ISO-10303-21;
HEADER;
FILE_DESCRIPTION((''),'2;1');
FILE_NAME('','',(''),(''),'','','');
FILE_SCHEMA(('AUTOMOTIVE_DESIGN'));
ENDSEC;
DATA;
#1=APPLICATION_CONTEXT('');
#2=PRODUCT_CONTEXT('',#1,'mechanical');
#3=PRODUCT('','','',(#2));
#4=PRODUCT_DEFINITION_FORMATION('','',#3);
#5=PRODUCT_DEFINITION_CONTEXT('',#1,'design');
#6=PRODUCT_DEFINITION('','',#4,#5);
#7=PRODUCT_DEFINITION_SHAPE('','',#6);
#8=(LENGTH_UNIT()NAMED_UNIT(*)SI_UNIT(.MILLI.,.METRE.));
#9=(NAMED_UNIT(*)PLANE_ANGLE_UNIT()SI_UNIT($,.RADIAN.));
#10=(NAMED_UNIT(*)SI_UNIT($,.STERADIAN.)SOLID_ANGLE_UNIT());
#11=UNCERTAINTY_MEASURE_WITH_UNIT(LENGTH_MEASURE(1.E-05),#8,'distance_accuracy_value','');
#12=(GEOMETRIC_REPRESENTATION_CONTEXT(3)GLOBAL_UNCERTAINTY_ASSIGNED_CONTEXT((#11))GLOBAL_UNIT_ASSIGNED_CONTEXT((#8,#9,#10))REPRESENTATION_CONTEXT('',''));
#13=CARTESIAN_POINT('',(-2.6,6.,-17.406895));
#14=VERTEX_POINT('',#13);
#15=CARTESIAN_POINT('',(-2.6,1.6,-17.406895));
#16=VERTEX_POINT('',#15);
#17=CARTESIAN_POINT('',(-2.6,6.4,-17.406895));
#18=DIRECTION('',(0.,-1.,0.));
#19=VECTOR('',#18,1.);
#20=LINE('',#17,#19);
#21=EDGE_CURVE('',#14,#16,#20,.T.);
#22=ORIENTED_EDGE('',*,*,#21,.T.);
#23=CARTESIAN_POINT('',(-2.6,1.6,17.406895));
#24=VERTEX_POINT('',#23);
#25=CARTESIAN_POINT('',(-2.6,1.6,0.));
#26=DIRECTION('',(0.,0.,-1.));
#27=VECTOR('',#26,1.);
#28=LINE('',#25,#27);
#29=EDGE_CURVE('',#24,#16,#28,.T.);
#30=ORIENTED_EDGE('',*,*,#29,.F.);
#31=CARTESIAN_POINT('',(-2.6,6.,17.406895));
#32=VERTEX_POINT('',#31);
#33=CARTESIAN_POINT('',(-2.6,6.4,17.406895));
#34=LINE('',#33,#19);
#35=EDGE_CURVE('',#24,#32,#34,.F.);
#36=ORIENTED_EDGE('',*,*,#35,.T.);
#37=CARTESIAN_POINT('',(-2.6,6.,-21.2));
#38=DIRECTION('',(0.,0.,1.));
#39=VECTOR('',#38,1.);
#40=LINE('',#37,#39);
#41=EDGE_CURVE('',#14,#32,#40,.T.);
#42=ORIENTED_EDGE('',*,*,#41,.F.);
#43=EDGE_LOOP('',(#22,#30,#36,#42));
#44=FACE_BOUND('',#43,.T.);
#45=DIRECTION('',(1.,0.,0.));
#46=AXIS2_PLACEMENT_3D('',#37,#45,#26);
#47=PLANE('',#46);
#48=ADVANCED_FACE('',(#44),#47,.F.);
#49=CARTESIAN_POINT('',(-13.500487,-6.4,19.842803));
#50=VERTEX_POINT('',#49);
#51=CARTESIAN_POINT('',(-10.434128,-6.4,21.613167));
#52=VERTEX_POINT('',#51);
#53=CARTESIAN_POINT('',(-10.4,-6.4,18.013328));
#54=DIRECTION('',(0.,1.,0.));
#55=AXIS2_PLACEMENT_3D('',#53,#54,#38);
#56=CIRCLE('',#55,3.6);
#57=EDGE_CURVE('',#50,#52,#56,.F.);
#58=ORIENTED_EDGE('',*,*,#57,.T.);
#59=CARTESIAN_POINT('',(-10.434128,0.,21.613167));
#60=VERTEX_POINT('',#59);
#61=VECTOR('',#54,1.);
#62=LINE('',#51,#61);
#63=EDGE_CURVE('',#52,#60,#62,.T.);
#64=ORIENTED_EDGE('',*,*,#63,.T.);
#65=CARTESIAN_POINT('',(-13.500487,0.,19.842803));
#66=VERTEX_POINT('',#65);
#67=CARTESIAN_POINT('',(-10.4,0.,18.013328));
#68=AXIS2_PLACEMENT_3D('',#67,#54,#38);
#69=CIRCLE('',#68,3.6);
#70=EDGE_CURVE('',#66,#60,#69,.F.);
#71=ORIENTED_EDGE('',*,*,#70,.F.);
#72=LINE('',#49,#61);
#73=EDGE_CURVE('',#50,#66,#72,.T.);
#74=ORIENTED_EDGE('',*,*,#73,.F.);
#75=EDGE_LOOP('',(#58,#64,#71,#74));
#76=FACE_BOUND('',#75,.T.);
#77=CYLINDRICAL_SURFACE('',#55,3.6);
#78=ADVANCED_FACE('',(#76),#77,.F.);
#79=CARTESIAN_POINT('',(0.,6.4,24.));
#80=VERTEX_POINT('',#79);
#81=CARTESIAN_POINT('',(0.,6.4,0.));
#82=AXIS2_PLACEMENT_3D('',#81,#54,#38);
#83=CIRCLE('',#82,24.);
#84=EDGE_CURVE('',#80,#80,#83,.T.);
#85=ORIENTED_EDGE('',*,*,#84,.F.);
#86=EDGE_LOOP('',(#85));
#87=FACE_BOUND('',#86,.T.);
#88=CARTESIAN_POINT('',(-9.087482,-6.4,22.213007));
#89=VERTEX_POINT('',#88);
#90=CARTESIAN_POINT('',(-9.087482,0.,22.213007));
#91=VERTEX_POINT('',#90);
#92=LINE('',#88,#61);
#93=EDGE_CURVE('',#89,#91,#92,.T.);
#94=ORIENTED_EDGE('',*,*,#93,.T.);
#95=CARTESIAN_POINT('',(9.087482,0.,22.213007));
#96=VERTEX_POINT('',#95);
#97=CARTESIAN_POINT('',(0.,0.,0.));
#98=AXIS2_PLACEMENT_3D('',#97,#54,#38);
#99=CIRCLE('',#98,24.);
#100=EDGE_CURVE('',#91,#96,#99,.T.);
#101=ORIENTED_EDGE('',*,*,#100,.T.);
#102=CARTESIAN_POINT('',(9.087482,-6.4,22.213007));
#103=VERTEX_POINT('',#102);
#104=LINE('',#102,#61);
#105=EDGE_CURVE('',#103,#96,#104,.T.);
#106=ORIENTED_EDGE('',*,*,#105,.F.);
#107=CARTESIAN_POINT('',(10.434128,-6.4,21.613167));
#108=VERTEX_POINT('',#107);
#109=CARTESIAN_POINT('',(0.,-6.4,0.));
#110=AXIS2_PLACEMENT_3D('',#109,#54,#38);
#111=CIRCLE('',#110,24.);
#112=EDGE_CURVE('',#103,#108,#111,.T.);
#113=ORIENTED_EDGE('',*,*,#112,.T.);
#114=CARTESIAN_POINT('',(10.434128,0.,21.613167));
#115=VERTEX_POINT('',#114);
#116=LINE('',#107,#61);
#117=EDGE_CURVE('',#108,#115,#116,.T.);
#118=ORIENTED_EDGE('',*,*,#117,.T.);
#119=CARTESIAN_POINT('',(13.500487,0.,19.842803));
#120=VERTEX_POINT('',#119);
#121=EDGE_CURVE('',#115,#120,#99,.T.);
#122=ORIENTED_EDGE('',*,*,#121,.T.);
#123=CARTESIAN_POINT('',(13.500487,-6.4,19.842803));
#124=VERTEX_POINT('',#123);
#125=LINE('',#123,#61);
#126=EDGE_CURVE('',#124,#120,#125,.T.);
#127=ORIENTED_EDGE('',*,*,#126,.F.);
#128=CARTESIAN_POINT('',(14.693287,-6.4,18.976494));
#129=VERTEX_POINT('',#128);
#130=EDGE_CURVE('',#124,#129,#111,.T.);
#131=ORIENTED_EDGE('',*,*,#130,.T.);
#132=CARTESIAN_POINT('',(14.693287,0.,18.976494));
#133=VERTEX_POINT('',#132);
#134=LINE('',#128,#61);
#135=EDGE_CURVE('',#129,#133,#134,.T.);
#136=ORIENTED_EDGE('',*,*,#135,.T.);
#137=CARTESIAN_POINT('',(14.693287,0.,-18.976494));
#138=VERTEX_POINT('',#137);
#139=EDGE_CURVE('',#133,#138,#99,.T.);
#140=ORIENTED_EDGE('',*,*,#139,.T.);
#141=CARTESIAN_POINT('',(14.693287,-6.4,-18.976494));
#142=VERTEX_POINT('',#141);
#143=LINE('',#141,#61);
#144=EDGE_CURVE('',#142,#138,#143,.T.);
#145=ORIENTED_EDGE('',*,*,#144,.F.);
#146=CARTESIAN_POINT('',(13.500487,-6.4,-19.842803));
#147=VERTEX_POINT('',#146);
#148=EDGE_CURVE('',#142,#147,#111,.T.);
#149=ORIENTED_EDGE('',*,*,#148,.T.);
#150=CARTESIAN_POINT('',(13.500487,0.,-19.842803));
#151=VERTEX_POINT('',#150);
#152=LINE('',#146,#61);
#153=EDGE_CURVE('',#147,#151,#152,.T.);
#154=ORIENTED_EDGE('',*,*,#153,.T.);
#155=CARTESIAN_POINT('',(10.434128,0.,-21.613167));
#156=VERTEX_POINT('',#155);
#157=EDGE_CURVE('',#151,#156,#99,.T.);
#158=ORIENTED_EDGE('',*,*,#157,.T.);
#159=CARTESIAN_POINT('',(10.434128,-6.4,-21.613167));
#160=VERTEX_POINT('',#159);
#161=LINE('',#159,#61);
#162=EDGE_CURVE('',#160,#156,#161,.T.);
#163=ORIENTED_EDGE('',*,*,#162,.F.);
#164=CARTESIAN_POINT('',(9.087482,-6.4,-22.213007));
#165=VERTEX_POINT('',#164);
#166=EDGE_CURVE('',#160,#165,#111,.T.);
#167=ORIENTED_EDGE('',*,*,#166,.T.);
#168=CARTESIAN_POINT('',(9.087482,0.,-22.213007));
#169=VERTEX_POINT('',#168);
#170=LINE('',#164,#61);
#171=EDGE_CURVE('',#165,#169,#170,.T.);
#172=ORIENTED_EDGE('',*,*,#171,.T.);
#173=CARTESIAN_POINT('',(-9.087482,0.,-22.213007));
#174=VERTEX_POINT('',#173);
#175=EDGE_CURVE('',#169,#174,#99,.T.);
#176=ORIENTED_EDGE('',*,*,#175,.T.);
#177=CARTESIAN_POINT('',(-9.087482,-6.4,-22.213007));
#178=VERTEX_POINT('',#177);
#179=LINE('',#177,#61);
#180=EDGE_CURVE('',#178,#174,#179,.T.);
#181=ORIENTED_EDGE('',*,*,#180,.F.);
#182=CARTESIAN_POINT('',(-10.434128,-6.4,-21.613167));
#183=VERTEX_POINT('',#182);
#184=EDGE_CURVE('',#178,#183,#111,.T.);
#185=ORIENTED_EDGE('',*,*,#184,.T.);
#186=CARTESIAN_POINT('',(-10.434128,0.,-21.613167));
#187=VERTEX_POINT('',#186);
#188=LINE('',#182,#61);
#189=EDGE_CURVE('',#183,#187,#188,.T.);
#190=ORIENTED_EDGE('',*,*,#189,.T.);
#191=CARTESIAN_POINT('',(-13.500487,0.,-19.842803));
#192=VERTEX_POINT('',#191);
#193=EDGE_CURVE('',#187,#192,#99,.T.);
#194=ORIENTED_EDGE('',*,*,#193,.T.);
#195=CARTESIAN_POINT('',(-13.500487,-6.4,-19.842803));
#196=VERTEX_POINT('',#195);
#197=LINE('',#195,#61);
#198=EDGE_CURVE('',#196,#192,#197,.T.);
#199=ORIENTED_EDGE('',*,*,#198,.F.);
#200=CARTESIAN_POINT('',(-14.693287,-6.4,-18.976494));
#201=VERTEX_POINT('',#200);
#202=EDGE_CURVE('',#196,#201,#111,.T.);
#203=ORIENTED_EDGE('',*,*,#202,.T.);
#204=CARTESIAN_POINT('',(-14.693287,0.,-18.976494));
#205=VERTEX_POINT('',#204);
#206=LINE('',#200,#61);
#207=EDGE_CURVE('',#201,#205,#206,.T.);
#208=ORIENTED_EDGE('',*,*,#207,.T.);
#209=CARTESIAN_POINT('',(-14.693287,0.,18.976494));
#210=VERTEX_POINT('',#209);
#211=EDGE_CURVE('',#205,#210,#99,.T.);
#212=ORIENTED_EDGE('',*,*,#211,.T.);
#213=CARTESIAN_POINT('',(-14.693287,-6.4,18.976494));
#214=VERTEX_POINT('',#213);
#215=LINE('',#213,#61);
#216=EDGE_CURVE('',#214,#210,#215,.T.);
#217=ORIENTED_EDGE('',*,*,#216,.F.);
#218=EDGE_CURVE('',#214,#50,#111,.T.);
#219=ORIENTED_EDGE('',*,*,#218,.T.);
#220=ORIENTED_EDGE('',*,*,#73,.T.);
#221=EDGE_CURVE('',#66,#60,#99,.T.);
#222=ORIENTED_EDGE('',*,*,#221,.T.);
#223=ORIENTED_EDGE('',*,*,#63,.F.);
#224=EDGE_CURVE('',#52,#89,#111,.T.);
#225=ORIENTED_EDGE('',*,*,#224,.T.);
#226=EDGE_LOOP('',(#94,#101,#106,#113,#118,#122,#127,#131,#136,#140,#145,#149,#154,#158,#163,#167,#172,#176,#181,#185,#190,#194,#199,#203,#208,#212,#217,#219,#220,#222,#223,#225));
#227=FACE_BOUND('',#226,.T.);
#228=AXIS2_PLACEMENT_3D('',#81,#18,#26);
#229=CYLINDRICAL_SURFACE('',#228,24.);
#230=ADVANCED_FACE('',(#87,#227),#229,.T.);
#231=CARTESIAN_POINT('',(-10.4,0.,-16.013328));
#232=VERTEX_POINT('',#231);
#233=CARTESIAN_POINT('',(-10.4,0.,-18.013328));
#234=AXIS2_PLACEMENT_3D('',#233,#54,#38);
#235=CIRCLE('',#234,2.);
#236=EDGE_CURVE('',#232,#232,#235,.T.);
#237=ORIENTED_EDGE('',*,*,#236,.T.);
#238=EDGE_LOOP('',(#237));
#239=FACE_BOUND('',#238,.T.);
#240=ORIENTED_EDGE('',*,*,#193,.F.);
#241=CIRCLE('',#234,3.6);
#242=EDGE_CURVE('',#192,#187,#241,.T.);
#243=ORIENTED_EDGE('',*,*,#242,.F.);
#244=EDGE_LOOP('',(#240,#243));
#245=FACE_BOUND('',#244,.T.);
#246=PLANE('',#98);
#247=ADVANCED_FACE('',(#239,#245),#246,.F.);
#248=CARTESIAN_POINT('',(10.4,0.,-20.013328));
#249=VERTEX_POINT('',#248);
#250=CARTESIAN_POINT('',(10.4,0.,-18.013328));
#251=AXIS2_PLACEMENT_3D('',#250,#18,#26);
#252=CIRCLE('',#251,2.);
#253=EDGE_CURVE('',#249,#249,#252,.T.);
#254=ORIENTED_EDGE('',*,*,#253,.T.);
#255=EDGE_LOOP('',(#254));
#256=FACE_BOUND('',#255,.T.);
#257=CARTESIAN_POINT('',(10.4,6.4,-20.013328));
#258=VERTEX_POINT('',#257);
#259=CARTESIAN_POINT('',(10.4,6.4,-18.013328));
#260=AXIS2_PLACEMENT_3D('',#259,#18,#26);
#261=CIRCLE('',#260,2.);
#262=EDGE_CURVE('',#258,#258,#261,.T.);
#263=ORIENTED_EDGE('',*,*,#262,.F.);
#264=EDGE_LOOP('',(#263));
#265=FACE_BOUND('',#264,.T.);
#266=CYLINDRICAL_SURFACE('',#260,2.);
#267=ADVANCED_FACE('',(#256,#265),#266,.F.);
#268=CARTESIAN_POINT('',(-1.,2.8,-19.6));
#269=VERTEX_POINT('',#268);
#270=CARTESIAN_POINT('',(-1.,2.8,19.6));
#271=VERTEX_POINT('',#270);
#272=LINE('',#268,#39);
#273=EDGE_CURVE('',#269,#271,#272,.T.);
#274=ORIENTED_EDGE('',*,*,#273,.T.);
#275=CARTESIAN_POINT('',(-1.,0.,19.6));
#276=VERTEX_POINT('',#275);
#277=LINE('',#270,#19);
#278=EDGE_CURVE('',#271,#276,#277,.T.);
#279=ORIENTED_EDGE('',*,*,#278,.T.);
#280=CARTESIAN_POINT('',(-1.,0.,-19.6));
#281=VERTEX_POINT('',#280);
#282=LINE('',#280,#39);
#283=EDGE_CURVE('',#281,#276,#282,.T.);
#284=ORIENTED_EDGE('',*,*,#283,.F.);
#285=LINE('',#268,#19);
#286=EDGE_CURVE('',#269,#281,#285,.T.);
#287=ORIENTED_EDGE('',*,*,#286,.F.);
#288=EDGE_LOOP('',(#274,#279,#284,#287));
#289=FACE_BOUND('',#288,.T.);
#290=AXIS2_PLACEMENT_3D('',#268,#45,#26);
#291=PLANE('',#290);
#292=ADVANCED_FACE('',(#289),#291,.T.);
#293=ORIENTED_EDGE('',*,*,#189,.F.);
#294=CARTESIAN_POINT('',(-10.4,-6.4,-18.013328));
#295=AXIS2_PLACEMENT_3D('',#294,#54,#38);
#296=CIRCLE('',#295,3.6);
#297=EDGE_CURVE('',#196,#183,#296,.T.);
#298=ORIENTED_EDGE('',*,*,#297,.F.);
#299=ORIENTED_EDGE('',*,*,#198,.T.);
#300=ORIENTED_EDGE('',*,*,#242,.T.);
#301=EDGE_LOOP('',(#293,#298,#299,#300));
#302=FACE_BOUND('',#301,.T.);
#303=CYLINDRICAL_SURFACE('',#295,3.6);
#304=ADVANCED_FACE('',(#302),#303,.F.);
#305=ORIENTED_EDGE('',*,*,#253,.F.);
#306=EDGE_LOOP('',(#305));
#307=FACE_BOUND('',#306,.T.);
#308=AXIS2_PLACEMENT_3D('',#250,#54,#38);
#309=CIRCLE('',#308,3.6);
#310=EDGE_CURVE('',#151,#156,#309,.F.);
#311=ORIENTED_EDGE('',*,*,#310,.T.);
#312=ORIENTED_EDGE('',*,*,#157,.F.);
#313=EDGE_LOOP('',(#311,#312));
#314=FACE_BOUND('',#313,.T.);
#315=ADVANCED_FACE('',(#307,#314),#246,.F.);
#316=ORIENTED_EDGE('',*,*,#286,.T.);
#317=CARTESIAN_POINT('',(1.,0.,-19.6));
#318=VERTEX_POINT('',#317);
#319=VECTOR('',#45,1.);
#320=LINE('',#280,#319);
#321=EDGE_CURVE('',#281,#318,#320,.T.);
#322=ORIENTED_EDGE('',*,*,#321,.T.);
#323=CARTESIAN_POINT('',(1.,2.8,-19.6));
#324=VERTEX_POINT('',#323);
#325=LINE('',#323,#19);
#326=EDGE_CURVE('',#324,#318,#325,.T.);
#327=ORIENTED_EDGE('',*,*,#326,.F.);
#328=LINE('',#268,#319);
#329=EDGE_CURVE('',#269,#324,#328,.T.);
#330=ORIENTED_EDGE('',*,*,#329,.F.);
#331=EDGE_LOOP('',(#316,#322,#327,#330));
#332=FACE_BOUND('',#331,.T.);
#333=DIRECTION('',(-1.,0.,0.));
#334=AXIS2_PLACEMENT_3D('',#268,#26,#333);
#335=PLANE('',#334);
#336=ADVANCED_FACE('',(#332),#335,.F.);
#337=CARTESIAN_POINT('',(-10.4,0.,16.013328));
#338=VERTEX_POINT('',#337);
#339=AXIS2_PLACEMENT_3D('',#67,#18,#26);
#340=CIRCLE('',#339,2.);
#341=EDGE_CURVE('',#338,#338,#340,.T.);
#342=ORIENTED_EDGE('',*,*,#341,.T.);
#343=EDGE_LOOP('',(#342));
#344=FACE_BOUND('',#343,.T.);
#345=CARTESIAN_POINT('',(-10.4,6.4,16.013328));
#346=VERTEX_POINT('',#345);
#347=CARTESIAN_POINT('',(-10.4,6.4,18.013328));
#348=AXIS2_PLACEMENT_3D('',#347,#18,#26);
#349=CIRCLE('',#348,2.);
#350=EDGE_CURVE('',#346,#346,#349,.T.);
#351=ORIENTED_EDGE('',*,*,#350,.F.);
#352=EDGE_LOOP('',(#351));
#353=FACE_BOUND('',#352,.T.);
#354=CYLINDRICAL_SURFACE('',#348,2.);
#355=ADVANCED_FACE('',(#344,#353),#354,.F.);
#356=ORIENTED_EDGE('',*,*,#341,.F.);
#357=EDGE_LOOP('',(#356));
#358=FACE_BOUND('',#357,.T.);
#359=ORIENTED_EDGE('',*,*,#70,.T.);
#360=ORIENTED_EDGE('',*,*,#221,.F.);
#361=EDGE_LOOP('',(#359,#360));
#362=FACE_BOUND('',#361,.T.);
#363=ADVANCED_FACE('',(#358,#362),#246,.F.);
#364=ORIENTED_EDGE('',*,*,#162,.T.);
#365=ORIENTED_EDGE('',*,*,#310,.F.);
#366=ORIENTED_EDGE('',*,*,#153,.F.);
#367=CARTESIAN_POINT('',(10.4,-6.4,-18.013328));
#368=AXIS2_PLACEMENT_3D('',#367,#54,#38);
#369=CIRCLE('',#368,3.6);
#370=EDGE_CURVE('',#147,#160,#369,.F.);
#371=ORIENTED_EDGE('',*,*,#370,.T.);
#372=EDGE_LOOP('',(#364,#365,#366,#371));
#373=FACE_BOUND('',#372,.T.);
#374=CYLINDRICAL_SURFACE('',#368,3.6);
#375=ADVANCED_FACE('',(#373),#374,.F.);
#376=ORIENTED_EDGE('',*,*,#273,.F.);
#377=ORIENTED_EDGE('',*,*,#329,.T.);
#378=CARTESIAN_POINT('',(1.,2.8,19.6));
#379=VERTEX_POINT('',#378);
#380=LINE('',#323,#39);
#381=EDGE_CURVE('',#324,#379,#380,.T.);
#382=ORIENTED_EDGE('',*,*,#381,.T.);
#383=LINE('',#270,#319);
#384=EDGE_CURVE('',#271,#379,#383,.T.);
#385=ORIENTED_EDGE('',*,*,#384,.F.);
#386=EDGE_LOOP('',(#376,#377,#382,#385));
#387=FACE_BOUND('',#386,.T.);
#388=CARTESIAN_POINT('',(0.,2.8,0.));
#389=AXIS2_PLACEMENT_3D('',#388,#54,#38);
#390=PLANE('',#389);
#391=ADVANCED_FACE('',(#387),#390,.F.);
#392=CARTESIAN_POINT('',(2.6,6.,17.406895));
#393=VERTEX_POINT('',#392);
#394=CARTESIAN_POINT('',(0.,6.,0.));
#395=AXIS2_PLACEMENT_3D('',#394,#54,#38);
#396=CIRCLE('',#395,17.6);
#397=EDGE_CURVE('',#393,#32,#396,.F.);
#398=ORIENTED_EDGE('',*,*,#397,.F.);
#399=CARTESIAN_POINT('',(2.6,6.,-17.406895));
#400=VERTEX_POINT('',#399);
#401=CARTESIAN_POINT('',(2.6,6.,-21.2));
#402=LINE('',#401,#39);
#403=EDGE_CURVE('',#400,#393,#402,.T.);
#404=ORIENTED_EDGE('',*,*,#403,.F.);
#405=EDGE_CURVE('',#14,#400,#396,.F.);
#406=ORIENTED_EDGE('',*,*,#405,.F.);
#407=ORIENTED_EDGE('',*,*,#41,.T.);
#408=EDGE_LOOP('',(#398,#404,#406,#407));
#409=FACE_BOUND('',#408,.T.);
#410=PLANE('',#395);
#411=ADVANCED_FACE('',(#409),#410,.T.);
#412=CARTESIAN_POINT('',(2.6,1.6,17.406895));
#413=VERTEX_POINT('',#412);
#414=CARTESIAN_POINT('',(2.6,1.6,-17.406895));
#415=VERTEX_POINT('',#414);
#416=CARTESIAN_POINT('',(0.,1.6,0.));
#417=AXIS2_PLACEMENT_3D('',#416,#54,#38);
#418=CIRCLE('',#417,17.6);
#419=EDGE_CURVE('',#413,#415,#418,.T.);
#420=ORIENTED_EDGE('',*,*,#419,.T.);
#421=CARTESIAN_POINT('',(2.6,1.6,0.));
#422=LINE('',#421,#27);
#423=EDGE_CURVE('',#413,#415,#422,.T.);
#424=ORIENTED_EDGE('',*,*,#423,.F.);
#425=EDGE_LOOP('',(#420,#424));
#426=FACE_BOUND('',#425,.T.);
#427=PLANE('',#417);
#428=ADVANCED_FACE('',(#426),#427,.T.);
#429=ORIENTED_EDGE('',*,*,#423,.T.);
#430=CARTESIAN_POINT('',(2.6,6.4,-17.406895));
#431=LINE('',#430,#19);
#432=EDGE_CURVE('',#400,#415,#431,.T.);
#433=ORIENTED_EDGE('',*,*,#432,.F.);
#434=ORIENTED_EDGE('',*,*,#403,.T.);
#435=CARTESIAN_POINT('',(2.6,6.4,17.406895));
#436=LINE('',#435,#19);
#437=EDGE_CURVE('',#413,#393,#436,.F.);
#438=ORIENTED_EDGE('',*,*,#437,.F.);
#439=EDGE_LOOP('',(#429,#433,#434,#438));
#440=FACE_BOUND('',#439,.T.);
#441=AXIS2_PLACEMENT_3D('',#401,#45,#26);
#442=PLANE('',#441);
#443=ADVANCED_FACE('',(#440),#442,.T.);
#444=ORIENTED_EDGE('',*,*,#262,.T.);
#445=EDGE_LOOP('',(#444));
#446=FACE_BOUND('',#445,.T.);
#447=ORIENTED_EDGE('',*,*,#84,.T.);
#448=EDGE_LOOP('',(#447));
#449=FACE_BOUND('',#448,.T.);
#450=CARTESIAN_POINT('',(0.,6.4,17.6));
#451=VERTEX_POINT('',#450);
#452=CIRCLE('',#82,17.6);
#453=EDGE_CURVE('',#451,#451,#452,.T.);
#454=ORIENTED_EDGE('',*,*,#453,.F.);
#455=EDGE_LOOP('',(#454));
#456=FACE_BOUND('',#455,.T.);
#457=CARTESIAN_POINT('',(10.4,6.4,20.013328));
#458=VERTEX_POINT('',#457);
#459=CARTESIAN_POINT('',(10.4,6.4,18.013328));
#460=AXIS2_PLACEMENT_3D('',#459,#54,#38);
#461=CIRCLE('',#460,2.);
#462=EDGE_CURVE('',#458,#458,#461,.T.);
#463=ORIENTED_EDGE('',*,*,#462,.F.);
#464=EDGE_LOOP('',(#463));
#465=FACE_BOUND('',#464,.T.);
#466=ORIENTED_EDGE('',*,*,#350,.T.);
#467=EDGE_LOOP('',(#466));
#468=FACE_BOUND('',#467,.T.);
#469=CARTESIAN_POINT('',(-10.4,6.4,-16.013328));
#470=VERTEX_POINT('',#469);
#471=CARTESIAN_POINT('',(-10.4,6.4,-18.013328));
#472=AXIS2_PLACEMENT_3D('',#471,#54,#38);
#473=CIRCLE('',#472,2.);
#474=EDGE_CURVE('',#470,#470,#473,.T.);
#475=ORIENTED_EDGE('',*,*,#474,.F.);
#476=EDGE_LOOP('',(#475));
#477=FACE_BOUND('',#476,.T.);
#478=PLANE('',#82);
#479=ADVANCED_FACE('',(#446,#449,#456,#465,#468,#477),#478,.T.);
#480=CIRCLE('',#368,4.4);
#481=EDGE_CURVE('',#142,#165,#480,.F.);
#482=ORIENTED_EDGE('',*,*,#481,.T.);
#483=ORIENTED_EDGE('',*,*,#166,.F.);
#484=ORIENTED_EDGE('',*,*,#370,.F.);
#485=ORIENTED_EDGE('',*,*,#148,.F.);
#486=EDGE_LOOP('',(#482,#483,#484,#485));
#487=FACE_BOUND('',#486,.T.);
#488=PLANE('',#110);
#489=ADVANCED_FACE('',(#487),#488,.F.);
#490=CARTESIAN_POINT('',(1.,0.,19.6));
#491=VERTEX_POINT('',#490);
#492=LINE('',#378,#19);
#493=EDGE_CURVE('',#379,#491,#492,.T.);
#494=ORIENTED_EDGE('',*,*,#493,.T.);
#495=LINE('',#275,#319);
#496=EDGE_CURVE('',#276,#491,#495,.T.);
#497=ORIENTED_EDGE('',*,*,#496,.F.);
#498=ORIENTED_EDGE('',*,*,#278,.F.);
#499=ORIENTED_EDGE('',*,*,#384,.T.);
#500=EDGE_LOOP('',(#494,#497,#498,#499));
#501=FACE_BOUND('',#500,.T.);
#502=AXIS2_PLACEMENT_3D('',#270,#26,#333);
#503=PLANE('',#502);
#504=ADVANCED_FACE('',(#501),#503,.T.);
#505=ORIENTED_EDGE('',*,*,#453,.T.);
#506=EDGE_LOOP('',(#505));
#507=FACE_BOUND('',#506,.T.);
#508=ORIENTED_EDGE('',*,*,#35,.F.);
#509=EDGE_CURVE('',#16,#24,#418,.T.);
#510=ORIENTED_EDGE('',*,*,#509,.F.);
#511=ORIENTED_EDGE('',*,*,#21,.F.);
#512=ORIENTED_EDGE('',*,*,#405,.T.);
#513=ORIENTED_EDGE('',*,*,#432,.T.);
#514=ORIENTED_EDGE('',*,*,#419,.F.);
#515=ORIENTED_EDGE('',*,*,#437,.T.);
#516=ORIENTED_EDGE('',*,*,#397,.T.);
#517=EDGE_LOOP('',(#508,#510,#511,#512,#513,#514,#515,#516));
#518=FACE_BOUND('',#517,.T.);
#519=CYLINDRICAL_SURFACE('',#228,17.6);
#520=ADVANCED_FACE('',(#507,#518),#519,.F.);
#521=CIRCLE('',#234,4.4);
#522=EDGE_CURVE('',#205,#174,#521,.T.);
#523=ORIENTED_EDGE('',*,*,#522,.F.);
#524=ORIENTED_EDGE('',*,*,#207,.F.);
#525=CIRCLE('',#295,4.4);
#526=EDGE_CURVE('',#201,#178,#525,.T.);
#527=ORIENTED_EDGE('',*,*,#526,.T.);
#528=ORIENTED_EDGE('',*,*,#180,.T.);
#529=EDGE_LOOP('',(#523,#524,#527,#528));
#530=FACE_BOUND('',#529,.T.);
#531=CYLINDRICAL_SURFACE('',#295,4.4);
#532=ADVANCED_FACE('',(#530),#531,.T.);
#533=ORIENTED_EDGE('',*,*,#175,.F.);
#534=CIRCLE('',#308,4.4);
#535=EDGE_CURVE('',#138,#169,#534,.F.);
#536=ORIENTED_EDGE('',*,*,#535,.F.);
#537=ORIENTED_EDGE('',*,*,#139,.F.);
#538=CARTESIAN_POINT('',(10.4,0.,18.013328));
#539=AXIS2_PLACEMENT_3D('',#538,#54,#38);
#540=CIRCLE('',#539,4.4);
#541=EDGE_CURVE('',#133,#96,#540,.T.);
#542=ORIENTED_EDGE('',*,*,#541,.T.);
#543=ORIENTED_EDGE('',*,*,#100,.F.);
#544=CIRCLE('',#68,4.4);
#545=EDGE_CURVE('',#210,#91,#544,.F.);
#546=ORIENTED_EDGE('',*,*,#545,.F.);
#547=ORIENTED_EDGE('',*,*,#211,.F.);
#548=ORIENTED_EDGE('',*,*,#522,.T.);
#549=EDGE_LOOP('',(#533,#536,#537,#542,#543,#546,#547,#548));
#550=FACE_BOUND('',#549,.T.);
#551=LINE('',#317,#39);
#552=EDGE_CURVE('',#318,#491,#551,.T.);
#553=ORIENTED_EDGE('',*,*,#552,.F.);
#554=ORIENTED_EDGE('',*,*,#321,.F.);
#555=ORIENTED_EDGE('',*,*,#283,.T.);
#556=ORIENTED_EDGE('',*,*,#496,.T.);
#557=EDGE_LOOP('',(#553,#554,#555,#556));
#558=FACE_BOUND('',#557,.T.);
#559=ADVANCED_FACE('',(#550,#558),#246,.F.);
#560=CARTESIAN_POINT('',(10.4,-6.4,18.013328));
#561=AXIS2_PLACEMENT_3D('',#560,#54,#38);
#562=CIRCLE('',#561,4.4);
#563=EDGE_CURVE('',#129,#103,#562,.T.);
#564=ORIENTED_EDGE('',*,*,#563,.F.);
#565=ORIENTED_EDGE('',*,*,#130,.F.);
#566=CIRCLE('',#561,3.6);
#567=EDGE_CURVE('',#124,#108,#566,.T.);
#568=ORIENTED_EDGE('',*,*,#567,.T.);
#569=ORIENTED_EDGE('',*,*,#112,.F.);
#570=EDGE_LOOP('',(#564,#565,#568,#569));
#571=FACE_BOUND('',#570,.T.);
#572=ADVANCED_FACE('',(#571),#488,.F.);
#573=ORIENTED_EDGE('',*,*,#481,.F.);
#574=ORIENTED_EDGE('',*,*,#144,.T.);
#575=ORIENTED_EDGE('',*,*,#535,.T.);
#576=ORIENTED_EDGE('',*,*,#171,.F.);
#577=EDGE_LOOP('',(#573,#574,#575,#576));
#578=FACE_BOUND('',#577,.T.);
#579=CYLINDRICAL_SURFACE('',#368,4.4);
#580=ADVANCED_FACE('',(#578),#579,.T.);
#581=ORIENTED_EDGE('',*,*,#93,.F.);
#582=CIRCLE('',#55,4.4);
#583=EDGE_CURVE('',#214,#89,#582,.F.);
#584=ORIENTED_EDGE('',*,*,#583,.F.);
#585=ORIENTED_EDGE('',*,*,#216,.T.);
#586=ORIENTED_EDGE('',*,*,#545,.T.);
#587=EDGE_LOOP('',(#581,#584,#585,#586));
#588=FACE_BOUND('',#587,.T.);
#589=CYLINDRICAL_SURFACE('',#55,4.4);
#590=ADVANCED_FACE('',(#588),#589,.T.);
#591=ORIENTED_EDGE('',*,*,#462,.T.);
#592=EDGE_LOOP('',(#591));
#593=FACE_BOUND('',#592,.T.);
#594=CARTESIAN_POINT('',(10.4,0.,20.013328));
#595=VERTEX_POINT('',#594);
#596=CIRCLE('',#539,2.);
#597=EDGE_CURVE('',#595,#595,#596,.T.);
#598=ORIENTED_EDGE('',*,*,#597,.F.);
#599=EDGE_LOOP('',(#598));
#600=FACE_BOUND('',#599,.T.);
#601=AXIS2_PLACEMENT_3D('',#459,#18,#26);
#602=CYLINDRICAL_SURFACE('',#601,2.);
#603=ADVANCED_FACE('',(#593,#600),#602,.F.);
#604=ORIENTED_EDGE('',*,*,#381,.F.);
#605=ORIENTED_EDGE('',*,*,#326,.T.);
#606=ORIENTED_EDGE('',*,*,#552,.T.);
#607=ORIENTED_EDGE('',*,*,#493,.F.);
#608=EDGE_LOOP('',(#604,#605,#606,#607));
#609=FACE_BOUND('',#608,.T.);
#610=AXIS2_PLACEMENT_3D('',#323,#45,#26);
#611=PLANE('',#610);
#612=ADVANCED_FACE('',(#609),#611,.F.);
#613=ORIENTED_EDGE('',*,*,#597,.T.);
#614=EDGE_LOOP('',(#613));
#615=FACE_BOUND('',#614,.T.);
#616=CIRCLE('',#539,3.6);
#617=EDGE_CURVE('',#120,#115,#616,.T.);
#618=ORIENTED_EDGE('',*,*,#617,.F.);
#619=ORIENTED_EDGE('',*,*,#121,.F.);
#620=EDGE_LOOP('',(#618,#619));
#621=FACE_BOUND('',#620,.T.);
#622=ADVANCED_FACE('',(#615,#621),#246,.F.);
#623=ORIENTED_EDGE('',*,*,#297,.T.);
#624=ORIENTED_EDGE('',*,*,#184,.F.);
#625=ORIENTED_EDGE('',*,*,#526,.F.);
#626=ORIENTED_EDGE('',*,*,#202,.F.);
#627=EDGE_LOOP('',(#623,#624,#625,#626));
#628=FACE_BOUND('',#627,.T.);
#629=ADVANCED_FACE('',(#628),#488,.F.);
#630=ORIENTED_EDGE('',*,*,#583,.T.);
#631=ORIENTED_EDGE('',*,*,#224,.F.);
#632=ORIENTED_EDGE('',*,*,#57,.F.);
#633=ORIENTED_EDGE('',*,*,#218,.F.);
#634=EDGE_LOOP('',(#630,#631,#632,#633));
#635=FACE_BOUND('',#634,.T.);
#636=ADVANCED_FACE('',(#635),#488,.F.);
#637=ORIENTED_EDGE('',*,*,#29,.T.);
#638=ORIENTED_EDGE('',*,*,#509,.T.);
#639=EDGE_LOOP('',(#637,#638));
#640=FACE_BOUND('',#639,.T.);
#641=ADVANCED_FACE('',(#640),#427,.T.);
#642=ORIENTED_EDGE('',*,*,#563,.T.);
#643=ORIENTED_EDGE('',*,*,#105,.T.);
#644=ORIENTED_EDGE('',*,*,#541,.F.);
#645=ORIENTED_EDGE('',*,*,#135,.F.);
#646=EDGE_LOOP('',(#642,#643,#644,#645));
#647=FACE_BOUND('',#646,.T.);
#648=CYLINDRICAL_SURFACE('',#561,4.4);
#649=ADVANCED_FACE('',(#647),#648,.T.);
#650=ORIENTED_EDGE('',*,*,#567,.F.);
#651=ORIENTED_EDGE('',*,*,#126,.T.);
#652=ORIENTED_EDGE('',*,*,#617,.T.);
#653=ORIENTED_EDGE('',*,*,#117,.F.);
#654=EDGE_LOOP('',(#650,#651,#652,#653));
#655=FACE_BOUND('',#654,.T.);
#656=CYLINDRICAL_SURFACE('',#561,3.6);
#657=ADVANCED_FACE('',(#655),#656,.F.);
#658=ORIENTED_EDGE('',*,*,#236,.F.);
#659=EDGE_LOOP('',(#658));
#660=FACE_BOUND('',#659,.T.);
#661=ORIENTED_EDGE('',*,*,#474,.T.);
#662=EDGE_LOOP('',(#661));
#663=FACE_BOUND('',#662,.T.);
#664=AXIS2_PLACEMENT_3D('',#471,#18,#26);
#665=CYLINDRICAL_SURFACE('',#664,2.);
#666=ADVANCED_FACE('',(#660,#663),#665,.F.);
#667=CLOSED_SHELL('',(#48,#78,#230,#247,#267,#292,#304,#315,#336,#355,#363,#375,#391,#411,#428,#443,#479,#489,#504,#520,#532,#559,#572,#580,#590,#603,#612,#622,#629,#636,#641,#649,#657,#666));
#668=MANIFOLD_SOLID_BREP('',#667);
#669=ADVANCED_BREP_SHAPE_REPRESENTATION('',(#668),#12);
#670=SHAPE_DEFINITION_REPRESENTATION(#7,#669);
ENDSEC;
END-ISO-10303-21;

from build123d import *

# Parameters (mm, degrees)
SKETCH_1_R          = 17.6
EXTRUDE_1_DEPTH     = 1.6
SKETCH_1_4_W        = 5.2
SKETCH_1_4_H        = 42.4
EXTRUDE_2_DEPTH     = 6
SKETCH_1_7_R        = 24
SKETCH_1_7_R_2      = 17.6
SKETCH_1_7_R_3      = 2
EXTRUDE_3_DEPTH     = 6.4
EXTRUDE_START       = -6.4
EXTRUDE_4_DEPTH     = 6.4
SKETCH_1_5_W        = 2
SKETCH_1_5_H        = 39.2
CUT_EXTRUDE_1_DEPTH = 2.8


with BuildPart() as part:
    # 草圖1 → 填料-伸長1 (new body)
    with BuildSketch(Plane(origin=(0, 0, 0), x_dir=(1, 0, 0), z_dir=(0, 1, 0))):
        Circle(SKETCH_1_R)
    extrude(amount=EXTRUDE_1_DEPTH)

    # 草圖1<4> → 填料-伸長2 (add)
    with BuildSketch(Plane(origin=(0, 0, 0), x_dir=(1, 0, 0), z_dir=(0, 1, 0))):
        Rectangle(SKETCH_1_4_W, SKETCH_1_4_H)
    extrude(amount=EXTRUDE_2_DEPTH)

    # 草圖1<7> → 填料-伸長3 (add)
    with BuildSketch(Plane(origin=(0, 0, 0), x_dir=(1, 0, 0), z_dir=(0, 1, 0))):
        Circle(SKETCH_1_7_R)
        Circle(SKETCH_1_7_R_2, mode=Mode.SUBTRACT)
        with Locations((-10.4, 18.013328399)):
            Circle(SKETCH_1_7_R_3, mode=Mode.SUBTRACT)
        with Locations((10.4, 18.013328399)):
            Circle(SKETCH_1_7_R_3, mode=Mode.SUBTRACT)
        with Locations((10.4, -18.013328399)):
            Circle(SKETCH_1_7_R_3, mode=Mode.SUBTRACT)
        with Locations((-10.4, -18.013328399)):
            Circle(SKETCH_1_7_R_3, mode=Mode.SUBTRACT)
    extrude(amount=EXTRUDE_3_DEPTH)

    # 草圖1<9> → 填料-伸長4 (add)
    with BuildSketch(Plane(origin=(0, 0, 0), x_dir=(1, 0, 0), z_dir=(0, 1, 0)).offset(EXTRUDE_START)):
        with BuildLine():
            ThreePointArc((-13.500487327, 19.842803278), (-14.103540299, 19.418809207), (-14.693286878, 18.976493899))
            ThreePointArc((-14.693286878, 18.976493899), (-8.2, 14.202816622), (-9.087482353, 22.213006651))
            ThreePointArc((-9.087482353, 22.213006651), (-9.765411935, 21.923428786), (-10.434128057, 21.613166628))
            ThreePointArc((-10.434128057, 21.613166628), (-8.6, 14.895636945), (-13.500487327, 19.842803278))
        make_face()
        with BuildLine():
            ThreePointArc((14.693286878, 18.976493899), (14.103540299, 19.418809207), (13.500487327, 19.842803278))
            ThreePointArc((13.500487327, 19.842803278), (8.6, 14.895636945), (10.434128057, 21.613166628))
            ThreePointArc((10.434128057, 21.613166628), (9.765411935, 21.923428786), (9.087482353, 22.213006651))
            ThreePointArc((9.087482353, 22.213006651), (8.2, 14.202816622), (14.693286878, 18.976493899))
        make_face()
        with BuildLine():
            ThreePointArc((-14.693286878, -18.976493899), (-14.103540299, -19.418809207), (-13.500487327, -19.842803278))
            ThreePointArc((-13.500487327, -19.842803278), (-8.6, -14.895636945), (-10.434128057, -21.613166628))
            ThreePointArc((-10.434128057, -21.613166628), (-9.765411935, -21.923428786), (-9.087482353, -22.213006651))
            ThreePointArc((-9.087482353, -22.213006651), (-8.2, -14.202816622), (-14.693286878, -18.976493899))
        make_face()
        with BuildLine():
            ThreePointArc((9.087482353, -22.213006651), (9.765411935, -21.923428786), (10.434128057, -21.613166628))
            ThreePointArc((10.434128057, -21.613166628), (8.6, -14.895636945), (13.500487327, -19.842803278))
            ThreePointArc((13.500487327, -19.842803278), (14.103540299, -19.418809207), (14.693286878, -18.976493899))
            ThreePointArc((14.693286878, -18.976493899), (8.2, -14.202816622), (9.087482353, -22.213006651))
        make_face()
    extrude(amount=EXTRUDE_4_DEPTH)

    # 草圖1<5> → 除料-伸長1 (cut)
    with BuildSketch(Plane(origin=(0, 0, 0), x_dir=(1, 0, 0), z_dir=(0, 1, 0))):
        Rectangle(SKETCH_1_5_W, SKETCH_1_5_H)
    extrude(amount=CUT_EXTRUDE_1_DEPTH, mode=Mode.SUBTRACT)


solid = part.part
